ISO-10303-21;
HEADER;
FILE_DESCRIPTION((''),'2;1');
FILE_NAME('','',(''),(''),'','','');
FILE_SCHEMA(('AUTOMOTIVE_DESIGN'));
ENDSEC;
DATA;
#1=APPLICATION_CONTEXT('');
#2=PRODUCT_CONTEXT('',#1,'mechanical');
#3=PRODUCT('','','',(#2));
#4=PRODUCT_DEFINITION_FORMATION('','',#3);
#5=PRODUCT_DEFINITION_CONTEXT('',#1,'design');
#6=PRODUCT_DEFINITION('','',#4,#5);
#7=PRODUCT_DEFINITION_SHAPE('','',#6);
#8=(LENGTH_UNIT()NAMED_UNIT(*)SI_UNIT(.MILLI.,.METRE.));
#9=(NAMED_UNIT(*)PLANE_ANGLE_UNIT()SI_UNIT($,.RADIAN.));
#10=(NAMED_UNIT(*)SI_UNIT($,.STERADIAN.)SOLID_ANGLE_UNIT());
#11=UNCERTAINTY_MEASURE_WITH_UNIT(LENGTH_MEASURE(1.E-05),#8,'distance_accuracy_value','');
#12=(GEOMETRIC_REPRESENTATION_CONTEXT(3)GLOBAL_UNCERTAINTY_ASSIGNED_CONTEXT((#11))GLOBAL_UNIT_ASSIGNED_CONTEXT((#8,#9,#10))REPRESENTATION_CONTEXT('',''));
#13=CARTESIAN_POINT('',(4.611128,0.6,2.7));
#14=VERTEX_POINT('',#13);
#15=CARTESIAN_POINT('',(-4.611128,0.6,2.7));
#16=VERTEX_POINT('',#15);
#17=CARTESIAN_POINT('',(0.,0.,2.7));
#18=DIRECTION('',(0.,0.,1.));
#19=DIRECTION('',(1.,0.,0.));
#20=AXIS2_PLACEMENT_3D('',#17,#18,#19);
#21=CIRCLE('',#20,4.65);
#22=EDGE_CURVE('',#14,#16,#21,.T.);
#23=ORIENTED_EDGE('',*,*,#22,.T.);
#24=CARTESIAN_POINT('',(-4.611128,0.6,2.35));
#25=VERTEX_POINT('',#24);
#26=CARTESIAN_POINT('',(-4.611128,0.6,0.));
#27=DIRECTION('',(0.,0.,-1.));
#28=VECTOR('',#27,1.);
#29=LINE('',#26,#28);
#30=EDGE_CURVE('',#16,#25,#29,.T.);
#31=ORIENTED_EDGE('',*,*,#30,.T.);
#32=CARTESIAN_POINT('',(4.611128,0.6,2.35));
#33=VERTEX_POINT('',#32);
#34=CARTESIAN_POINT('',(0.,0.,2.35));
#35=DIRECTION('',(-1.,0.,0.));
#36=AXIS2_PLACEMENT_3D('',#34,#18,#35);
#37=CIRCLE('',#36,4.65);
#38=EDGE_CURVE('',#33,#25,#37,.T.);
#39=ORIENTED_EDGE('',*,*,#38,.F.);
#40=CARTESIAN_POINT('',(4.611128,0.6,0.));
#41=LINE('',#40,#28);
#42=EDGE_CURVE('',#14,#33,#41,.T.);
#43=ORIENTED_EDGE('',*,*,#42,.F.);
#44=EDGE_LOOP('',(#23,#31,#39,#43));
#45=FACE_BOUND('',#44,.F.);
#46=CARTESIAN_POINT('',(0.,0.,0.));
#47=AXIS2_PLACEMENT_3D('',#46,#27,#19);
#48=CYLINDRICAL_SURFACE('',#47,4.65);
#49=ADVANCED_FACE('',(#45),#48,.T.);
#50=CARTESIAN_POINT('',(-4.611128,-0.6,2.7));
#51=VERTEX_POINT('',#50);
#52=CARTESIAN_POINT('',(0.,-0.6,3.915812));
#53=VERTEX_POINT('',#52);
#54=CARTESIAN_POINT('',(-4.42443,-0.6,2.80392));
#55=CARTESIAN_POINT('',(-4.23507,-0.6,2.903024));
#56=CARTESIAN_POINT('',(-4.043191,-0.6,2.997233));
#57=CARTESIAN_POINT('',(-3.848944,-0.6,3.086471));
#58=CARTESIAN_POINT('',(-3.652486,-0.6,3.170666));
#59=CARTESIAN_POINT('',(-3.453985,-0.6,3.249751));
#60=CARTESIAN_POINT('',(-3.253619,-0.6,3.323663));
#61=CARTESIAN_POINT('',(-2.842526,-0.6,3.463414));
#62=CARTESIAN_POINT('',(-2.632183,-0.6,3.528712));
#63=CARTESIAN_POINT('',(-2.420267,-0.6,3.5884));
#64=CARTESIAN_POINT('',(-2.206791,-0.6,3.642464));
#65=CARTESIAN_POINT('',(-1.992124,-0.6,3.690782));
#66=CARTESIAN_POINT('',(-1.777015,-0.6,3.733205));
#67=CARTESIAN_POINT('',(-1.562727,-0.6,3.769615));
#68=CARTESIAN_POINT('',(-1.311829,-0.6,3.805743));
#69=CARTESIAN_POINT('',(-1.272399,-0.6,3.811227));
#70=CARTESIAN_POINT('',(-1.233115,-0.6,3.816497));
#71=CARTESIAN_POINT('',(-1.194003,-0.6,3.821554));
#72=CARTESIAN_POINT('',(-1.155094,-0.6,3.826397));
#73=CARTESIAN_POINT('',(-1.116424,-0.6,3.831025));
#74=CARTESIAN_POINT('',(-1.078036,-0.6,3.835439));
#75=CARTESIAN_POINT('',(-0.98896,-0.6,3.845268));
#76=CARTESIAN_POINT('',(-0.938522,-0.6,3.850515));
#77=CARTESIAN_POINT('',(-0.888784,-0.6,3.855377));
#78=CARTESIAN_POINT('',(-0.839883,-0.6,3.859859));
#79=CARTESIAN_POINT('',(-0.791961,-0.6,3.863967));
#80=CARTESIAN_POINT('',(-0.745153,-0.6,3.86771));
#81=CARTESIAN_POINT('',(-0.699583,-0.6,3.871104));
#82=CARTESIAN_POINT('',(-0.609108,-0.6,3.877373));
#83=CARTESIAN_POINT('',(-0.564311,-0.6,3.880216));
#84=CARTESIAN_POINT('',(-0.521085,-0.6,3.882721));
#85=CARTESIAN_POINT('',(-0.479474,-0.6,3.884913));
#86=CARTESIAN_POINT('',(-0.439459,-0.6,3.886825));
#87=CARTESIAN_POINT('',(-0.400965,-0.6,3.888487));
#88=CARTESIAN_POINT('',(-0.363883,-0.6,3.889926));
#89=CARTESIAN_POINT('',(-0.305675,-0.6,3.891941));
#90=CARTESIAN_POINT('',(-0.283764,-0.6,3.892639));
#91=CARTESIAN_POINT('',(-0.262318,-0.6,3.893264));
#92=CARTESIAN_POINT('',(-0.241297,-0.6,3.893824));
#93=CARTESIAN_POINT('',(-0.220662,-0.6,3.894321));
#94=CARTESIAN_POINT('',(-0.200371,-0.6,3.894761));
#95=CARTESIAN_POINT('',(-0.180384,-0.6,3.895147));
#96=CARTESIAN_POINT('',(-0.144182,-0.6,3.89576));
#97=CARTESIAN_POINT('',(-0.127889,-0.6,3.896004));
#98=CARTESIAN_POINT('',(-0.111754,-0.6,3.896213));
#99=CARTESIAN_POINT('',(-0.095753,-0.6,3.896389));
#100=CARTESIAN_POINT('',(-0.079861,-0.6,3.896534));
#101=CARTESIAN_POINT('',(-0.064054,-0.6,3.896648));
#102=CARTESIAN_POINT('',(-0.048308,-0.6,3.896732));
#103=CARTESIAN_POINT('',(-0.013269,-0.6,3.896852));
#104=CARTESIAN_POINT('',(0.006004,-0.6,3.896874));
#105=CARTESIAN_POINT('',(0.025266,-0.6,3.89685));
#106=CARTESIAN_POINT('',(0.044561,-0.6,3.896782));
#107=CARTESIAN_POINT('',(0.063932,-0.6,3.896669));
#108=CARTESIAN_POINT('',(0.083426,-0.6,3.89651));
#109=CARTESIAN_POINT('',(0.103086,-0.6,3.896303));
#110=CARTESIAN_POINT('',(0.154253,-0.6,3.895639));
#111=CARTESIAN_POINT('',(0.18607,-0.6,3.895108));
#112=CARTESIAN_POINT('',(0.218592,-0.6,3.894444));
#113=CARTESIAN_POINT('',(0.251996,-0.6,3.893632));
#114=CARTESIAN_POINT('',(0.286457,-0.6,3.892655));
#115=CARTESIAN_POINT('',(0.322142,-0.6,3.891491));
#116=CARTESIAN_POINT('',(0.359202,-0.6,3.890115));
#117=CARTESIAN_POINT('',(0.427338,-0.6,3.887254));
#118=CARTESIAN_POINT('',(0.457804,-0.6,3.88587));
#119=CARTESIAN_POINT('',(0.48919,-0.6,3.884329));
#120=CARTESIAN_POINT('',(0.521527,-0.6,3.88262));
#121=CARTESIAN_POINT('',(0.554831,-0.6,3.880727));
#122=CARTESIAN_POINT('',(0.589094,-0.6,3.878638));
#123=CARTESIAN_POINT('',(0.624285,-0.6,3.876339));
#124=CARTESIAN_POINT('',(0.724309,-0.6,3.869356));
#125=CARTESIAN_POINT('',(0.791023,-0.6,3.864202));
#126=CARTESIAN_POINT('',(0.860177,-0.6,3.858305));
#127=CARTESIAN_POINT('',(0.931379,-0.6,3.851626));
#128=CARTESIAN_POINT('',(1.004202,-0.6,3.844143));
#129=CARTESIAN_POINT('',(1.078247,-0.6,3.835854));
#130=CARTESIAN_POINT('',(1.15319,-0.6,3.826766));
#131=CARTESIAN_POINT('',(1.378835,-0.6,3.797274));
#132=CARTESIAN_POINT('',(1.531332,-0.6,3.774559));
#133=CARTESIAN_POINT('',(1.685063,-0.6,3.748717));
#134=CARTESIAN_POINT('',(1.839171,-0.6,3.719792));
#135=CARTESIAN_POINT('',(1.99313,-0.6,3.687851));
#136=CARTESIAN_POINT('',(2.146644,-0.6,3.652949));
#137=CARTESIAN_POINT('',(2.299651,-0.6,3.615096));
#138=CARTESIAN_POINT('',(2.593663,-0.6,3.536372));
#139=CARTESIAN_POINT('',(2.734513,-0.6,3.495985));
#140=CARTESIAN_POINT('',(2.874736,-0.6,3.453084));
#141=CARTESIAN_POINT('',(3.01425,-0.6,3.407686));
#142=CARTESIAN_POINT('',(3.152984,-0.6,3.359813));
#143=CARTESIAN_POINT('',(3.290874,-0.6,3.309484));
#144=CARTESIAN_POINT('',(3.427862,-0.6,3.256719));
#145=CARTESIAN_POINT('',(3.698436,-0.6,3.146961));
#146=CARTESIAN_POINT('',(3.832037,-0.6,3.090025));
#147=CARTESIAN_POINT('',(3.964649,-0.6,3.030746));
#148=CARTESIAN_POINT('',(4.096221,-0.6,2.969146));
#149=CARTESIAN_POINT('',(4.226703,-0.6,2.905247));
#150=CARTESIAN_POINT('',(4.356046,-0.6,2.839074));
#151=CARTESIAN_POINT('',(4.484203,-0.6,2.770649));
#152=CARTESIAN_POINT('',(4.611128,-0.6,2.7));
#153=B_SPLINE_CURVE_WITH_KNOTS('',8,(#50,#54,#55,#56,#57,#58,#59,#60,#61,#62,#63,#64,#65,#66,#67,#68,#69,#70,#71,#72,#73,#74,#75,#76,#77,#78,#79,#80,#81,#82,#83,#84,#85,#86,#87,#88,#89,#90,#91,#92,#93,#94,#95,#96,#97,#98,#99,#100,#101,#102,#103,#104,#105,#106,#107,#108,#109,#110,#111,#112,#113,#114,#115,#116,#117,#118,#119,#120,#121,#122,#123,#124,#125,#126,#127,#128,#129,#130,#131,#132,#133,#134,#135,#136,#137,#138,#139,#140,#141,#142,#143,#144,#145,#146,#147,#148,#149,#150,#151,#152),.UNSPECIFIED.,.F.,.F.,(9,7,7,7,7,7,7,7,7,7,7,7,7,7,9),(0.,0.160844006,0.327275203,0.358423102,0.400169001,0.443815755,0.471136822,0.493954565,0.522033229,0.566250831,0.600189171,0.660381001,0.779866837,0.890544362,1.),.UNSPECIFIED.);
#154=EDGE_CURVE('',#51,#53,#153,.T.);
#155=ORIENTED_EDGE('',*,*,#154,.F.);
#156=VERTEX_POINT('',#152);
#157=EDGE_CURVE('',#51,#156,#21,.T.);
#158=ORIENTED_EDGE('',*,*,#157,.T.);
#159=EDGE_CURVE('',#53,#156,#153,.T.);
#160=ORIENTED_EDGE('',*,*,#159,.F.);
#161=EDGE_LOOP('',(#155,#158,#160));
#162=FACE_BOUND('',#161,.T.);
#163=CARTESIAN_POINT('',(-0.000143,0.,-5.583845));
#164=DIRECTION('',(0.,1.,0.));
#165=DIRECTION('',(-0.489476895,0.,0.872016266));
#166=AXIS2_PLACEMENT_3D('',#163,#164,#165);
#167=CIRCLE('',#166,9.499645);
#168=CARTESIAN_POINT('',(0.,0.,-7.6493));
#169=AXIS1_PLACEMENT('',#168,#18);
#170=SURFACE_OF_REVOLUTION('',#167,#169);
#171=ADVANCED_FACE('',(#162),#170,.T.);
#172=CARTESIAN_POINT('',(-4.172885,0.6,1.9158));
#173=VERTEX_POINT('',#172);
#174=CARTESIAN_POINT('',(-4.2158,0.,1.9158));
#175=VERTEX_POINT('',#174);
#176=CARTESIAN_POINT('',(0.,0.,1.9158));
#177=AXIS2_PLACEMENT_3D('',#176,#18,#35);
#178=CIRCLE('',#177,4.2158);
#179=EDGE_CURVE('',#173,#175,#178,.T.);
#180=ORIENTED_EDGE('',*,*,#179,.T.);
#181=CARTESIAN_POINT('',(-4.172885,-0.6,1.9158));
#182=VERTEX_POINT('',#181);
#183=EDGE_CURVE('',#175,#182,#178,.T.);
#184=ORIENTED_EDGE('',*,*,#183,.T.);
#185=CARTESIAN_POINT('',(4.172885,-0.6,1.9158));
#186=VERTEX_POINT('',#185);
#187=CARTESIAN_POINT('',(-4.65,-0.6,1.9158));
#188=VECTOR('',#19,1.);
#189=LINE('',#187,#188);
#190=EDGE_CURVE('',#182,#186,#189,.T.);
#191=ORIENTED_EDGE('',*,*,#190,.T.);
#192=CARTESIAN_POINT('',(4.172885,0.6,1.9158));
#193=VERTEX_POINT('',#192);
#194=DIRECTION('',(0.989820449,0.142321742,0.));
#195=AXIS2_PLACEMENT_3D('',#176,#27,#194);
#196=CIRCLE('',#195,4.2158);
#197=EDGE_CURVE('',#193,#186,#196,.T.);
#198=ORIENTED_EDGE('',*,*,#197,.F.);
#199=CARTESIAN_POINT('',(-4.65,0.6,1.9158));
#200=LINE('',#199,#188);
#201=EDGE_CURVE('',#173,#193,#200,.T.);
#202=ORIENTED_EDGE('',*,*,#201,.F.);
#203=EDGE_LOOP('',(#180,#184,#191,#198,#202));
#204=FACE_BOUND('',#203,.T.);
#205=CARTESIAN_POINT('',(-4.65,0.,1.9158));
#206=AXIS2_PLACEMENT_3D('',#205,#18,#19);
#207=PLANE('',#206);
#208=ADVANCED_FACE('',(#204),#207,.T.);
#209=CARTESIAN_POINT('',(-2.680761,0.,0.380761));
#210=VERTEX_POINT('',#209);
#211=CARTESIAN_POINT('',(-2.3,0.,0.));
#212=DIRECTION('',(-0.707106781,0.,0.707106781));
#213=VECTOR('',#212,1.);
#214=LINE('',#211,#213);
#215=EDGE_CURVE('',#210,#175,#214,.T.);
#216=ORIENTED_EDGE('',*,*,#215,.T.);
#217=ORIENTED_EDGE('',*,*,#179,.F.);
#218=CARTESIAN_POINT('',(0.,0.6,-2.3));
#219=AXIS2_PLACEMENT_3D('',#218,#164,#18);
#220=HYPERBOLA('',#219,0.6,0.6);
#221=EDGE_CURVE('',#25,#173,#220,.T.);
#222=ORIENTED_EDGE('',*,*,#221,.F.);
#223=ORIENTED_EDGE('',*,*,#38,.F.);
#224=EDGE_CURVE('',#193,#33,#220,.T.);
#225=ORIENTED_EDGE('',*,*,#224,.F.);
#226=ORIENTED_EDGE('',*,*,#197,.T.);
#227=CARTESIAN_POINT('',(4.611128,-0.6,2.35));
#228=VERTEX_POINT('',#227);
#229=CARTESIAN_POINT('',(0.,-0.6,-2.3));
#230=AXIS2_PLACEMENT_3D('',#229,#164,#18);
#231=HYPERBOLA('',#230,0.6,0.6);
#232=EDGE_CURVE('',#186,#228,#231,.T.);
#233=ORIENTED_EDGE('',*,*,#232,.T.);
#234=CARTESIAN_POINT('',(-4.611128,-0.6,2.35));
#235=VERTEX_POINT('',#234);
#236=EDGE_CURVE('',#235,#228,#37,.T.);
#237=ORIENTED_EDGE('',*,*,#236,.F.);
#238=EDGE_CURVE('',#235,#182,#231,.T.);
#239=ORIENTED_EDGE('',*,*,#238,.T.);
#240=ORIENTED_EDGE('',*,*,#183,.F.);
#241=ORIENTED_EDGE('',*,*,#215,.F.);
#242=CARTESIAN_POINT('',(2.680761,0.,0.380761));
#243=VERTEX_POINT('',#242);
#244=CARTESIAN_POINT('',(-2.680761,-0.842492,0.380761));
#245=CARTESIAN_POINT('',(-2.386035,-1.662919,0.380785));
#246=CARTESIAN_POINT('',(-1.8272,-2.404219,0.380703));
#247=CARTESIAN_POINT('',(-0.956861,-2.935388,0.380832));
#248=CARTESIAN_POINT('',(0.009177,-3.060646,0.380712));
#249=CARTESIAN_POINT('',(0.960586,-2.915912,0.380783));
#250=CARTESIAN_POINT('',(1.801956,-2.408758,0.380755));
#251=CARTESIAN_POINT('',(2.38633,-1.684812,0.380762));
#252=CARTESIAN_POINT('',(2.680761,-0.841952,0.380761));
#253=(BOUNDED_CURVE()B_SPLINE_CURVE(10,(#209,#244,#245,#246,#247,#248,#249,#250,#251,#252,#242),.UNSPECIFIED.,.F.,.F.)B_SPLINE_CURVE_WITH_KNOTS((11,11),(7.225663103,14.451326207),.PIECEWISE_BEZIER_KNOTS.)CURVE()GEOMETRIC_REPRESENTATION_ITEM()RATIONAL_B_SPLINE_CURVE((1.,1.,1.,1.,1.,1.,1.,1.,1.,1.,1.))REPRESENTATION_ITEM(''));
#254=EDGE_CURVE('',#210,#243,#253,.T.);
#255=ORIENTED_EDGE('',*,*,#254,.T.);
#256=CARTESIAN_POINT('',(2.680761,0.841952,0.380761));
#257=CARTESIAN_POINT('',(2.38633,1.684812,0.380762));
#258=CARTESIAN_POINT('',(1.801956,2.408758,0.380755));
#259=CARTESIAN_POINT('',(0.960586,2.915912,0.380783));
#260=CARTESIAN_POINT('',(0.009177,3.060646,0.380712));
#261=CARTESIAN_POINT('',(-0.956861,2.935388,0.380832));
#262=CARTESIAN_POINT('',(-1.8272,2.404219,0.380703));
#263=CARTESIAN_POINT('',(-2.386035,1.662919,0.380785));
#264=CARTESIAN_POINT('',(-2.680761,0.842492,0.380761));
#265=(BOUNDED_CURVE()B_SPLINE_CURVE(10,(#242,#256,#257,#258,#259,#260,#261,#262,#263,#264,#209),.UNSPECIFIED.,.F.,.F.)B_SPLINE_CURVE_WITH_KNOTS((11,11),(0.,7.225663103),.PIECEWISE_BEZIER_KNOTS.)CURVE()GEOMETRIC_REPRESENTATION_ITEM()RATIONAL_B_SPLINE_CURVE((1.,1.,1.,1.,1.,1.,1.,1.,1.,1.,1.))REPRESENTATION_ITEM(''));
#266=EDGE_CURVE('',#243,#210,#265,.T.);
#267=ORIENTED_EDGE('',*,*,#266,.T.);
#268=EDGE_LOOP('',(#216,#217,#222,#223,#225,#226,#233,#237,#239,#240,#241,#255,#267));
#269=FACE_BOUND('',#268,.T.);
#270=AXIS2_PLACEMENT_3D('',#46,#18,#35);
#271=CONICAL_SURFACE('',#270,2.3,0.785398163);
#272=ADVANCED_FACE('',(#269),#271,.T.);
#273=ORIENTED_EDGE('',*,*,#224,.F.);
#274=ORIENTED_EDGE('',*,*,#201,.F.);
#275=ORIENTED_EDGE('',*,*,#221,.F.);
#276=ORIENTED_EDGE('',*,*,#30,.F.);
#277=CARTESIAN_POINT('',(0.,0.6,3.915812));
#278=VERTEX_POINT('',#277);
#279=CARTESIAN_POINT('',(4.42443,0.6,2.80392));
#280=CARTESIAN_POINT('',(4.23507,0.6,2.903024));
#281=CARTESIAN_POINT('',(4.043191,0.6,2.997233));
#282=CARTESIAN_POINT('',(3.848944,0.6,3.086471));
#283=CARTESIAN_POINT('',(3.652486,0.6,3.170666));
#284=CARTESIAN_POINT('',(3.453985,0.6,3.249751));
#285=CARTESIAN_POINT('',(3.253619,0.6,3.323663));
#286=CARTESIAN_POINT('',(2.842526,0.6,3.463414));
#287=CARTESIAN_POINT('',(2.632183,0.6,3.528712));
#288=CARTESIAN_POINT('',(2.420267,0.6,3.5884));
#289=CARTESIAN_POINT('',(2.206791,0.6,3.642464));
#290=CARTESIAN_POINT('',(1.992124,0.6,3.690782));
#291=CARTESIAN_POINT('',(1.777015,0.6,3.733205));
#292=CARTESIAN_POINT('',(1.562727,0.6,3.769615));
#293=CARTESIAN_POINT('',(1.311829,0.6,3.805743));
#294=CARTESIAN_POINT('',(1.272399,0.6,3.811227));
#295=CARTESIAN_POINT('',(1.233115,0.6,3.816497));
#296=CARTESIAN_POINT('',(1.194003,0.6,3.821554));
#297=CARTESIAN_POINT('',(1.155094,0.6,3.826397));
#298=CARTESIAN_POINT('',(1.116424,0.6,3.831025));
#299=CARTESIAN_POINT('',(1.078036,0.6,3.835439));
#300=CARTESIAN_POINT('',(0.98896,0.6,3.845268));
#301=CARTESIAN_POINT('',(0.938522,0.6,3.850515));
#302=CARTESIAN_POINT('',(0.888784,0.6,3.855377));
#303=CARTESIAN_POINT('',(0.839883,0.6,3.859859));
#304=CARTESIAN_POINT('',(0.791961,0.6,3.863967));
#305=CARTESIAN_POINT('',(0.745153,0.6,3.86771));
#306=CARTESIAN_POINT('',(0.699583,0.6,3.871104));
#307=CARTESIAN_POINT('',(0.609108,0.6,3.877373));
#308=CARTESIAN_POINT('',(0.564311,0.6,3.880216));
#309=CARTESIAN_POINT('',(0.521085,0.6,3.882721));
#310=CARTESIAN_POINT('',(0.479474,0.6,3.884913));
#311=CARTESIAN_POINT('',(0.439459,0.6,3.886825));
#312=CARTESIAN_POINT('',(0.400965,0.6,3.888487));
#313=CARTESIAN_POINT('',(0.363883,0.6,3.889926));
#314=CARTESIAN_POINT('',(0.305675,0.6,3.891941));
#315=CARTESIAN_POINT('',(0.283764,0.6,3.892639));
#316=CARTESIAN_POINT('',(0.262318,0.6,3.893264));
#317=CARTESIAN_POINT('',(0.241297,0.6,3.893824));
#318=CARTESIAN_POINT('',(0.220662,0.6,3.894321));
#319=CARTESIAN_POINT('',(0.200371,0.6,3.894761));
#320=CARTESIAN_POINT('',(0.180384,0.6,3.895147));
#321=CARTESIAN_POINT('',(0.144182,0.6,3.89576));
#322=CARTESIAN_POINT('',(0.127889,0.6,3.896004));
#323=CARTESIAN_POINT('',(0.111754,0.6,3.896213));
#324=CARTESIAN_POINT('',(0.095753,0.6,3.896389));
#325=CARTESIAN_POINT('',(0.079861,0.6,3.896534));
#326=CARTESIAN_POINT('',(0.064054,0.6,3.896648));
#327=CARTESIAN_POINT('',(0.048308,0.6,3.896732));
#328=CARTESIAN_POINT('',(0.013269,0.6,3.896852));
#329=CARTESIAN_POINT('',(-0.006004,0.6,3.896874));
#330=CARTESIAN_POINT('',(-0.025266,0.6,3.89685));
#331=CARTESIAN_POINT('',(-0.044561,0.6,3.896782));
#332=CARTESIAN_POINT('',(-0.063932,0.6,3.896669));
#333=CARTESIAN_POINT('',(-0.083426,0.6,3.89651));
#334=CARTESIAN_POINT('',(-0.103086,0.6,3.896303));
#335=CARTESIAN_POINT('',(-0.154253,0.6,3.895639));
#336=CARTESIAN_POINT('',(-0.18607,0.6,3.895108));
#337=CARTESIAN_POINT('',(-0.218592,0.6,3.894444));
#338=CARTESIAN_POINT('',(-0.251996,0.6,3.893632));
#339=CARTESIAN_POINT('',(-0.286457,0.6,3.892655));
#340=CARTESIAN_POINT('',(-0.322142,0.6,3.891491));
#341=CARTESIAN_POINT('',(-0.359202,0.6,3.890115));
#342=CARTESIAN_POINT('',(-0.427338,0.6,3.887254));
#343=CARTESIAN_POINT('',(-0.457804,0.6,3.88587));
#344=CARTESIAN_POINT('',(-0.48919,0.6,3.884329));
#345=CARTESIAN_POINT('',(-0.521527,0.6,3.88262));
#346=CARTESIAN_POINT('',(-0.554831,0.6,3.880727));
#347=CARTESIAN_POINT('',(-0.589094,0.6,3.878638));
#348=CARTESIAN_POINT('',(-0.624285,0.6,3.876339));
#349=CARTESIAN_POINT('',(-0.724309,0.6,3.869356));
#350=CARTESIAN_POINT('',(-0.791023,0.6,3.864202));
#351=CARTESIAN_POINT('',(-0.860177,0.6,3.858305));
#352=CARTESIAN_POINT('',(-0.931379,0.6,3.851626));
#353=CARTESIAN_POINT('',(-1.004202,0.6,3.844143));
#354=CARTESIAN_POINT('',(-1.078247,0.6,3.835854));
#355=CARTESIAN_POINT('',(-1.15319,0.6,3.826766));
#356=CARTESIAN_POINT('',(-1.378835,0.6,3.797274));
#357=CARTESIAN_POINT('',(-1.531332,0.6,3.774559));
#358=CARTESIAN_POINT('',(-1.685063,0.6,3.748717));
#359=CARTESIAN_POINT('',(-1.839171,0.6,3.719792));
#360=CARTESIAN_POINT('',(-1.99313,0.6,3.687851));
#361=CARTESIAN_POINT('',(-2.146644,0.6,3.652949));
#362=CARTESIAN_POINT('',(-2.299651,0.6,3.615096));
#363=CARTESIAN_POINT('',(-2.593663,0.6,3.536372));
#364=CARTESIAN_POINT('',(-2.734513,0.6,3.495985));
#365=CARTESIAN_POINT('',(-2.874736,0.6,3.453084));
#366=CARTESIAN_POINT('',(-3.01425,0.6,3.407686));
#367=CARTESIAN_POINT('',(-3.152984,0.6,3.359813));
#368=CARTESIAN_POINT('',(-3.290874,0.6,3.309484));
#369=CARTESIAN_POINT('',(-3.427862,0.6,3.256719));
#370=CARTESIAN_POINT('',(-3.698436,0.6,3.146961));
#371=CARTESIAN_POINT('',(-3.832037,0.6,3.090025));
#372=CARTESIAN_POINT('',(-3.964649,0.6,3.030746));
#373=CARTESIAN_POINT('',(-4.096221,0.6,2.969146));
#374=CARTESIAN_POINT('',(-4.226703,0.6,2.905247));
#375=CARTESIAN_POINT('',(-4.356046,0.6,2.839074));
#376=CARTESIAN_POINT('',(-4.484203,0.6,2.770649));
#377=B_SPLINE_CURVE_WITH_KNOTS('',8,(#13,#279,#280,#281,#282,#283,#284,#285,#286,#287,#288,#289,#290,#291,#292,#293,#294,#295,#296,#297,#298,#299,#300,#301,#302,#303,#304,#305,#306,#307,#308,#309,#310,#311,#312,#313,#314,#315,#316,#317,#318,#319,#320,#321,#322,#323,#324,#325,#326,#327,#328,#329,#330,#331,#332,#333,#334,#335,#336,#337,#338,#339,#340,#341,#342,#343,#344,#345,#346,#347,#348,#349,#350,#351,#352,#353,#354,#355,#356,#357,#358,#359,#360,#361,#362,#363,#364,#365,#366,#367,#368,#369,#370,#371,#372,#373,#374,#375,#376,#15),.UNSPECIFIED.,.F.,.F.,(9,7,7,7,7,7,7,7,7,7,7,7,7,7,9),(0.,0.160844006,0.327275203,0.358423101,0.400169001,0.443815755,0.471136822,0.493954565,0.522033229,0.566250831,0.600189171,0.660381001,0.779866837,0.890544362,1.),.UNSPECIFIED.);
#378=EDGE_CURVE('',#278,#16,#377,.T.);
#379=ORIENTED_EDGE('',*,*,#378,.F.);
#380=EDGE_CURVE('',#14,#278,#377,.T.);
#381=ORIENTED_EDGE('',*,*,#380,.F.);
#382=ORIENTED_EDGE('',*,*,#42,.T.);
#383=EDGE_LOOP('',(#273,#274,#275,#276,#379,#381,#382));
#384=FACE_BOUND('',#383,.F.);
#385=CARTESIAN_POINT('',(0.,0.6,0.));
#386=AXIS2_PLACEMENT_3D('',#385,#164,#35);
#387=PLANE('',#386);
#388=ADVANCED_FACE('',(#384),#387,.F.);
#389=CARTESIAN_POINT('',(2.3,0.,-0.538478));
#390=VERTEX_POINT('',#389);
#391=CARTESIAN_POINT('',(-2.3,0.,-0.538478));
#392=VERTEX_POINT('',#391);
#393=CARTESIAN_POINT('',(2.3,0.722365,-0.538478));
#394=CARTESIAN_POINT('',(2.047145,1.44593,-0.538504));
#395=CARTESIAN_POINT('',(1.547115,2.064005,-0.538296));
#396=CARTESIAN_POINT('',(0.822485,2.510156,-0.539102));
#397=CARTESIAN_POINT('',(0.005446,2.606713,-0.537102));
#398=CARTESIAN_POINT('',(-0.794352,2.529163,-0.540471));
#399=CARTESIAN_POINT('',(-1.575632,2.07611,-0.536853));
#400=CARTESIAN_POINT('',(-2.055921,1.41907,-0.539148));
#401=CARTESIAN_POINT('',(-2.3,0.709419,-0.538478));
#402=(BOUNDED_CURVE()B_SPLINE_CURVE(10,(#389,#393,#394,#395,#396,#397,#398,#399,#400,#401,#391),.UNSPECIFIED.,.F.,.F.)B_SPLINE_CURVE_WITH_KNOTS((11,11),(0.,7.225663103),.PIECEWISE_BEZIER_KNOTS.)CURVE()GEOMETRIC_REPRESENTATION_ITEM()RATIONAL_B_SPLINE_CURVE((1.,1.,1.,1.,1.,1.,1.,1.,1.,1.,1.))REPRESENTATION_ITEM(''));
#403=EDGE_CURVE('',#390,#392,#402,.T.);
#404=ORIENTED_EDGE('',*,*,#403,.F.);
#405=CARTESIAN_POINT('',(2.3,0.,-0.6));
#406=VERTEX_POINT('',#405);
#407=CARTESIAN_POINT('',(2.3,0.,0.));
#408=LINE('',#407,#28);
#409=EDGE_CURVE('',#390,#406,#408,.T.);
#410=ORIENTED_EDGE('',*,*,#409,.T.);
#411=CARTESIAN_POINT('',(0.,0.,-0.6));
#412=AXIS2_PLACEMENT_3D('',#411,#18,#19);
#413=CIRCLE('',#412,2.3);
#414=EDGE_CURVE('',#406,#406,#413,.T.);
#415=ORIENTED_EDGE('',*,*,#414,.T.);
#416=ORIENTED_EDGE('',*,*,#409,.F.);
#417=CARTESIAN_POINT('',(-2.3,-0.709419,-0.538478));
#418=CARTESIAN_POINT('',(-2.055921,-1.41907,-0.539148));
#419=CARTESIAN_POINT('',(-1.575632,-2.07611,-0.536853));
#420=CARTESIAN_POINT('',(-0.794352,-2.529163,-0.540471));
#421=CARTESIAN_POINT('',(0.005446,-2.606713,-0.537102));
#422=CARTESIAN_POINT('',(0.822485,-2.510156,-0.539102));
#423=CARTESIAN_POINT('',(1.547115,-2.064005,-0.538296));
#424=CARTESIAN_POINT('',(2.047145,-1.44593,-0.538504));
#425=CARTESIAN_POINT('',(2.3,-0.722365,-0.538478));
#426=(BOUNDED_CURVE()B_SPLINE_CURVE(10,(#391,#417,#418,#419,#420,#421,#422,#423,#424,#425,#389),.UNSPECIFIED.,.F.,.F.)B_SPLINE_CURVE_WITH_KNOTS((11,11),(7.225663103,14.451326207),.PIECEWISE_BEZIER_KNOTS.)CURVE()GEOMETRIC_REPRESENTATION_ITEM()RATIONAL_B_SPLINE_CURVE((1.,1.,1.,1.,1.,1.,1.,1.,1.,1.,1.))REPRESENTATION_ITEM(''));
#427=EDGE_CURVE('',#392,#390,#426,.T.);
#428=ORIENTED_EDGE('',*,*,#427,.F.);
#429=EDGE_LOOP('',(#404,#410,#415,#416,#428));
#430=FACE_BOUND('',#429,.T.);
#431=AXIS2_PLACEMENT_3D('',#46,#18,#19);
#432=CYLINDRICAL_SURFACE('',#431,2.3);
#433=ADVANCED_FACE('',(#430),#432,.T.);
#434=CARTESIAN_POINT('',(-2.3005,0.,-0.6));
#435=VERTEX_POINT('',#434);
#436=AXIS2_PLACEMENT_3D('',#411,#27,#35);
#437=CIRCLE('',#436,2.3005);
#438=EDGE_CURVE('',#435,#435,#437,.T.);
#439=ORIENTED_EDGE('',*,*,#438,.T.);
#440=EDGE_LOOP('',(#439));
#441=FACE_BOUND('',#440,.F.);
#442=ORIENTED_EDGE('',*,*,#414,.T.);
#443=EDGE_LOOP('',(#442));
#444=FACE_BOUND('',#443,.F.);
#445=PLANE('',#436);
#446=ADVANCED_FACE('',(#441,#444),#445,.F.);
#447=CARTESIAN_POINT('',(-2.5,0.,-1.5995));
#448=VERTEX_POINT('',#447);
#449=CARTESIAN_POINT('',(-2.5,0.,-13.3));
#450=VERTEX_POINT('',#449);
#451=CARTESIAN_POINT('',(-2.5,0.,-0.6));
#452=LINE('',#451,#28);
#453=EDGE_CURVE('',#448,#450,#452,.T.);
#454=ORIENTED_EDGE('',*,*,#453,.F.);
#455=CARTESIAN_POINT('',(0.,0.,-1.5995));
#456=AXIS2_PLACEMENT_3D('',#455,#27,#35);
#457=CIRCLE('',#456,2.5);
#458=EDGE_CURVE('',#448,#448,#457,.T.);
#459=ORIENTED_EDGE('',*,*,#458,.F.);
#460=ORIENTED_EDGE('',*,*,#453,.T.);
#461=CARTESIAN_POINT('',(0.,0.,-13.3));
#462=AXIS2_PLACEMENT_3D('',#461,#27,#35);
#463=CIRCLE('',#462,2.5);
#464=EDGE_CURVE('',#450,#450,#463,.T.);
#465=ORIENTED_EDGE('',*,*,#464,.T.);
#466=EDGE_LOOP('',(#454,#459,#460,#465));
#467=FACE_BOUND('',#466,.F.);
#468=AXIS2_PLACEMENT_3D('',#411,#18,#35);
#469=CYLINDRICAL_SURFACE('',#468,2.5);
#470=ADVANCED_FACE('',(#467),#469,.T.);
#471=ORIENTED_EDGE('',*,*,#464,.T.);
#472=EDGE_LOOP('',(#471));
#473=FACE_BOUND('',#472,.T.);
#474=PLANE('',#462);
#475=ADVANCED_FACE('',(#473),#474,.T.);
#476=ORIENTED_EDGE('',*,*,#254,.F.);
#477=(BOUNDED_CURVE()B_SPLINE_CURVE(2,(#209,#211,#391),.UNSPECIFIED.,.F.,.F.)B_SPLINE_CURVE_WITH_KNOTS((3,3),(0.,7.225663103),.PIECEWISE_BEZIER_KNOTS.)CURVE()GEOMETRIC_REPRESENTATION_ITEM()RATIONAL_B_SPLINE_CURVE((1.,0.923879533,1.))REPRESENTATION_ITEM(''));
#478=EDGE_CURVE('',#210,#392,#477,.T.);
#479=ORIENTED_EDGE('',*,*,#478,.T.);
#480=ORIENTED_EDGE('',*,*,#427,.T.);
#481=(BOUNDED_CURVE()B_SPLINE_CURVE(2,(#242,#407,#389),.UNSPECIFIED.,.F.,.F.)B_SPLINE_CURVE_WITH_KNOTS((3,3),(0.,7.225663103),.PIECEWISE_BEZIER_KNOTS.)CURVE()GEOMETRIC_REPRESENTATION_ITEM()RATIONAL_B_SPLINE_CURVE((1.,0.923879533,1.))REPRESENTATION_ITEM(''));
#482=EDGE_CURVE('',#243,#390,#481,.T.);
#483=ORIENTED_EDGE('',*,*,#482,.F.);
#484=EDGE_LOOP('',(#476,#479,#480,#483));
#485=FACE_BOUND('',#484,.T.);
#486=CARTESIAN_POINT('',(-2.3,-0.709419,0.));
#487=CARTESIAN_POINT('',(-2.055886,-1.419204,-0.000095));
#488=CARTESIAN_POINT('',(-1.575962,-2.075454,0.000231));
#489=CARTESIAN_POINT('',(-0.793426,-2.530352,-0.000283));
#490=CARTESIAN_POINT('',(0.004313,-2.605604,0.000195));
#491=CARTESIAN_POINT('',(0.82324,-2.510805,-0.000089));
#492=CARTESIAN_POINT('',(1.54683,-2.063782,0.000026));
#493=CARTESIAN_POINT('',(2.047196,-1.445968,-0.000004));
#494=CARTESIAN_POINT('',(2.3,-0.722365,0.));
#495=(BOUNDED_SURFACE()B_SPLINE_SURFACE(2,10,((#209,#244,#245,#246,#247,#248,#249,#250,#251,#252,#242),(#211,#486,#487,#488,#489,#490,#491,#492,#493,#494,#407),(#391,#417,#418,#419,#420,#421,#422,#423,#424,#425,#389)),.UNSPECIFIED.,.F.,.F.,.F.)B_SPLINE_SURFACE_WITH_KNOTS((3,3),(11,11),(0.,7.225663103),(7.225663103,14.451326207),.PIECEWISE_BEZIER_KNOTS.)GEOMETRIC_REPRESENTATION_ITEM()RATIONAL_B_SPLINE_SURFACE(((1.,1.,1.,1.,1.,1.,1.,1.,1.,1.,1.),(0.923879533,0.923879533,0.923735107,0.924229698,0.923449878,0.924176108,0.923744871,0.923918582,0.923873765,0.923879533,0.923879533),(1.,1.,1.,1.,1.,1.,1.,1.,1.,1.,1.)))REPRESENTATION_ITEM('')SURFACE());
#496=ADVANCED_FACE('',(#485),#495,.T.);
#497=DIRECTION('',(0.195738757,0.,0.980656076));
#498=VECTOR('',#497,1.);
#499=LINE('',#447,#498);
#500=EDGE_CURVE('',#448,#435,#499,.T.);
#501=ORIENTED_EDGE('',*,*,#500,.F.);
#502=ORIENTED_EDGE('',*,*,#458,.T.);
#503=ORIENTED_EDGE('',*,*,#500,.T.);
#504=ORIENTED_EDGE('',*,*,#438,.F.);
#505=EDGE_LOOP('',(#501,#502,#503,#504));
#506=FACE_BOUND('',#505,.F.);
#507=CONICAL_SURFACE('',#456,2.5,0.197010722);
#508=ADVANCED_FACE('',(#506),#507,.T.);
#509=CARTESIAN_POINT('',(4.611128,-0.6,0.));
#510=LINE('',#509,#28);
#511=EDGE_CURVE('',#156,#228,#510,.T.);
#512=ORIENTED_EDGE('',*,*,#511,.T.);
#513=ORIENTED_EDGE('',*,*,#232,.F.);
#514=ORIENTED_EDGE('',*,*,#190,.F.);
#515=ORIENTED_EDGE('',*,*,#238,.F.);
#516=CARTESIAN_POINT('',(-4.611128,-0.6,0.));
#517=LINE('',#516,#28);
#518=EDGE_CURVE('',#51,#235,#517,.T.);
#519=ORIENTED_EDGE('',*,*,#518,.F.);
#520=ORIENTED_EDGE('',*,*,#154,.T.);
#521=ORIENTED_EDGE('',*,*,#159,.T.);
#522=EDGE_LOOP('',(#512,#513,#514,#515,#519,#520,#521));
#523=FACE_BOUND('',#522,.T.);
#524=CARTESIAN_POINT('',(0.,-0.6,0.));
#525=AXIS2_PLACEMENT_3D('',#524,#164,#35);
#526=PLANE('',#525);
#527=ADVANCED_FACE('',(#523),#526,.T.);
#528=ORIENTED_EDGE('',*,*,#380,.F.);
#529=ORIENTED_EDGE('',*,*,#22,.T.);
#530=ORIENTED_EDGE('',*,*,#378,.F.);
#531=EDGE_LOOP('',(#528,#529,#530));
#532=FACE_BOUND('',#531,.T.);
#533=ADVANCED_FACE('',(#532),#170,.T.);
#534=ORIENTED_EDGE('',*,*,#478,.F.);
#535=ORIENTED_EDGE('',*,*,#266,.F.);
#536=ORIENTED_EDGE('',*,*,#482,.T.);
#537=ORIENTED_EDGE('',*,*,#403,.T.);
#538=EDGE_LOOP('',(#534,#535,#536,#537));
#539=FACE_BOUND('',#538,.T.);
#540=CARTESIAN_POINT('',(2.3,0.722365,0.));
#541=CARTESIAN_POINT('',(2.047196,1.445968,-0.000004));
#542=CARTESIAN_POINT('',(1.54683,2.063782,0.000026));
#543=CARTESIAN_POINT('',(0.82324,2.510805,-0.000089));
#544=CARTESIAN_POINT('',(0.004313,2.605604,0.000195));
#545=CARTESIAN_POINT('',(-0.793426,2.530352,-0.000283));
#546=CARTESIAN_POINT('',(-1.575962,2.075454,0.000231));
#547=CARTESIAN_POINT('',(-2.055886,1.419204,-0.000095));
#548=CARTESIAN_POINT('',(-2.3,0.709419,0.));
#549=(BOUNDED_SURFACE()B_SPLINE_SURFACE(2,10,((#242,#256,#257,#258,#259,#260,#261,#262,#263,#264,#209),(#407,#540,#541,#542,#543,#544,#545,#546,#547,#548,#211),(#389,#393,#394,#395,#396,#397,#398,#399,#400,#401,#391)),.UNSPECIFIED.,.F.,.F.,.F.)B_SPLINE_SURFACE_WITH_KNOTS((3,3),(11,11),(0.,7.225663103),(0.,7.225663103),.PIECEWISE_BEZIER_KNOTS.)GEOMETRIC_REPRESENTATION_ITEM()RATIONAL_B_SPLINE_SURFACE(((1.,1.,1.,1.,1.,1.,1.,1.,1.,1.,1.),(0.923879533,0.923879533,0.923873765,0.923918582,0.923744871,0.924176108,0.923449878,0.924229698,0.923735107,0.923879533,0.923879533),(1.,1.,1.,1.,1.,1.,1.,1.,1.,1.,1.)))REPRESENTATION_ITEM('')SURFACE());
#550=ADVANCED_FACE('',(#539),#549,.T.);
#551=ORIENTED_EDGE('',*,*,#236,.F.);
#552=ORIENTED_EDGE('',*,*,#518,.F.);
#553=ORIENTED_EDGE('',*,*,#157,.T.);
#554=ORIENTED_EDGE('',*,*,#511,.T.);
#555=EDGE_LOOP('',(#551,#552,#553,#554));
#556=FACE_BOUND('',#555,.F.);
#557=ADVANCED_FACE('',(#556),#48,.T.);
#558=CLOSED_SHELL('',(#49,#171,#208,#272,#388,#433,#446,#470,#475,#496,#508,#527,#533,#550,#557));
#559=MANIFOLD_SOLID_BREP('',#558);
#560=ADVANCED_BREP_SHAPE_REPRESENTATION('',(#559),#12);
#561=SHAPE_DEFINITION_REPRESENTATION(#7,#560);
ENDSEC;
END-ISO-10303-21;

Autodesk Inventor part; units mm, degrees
ref_plane "WorkPlane11" through (0, 0, 0) normal (0, 0, 1) x (1, 0, 0)
ref_plane "Work Plane2" through (0, 0, -4.9) normal (0, 0, 1) x (1, 0, 0)
ref_plane "WorkPlane9" through (0, 0, 8.3) normal (0, 0, 1) x (1, 0, 0)
sketch "Skizze1" plane through (0, 0, 0) normal (0, 0, 1) x (1, 0, 0)
  point P0 (0, 0)
sketch "Skizze2" plane through (0, 0, 0) normal (0, 0, 1) x (1, 0, 0)
  circle A0 centre (0, 0) radius 2.3
  dimension "d2" = 4.6
extrude "Extrusion1" add sketch "Skizze2" against normal blind 0.6
sketch "Skizze3" plane through (0, 0, -0.6) normal (0, 0, -1) x (-1, 0, 0)
  circle A0 centre (0, 0) radius 2.5
  circle A1 centre (0, 0) radius 2.3 construction
  dimension "d8" = 5
extrude "Extrusion2" add sketch "Skizze3" along normal blind 12.7
sketch "Skizze4" plane through (0, 0, 0) normal (0, 0, 1) x (1, 0, 0)
  circle A0 centre (0, 0) radius 4.65
  circle A1 centre (0, 0) radius 2.3 construction
  dimension "d12" = 9.3
extrude "Extrusion3" add sketch "Skizze4" along normal blind 2.7
sketch "Skizze5" plane through (0, 0, 0) normal (0, 1, 0) x (-1, 0, 0)
  line L0 (4.65, 0) -> (2.3, 0)
  line L1 (4.65, 2.35) -> (4.65, 0)
  line L2 (2.3, 0) -> (4.65, 2.35)
  line L3 (-4.65, 0) -> (4.65, 0) construction
  line L4 (0, -7.6493) -> (0, 5.8993)
  line L5 (0, -10.359) -> (0, 8.609) projected
  line L6 (4.65, 0) -> (4.65, 2.7) projected
  line L7 (-4.75, 0) -> (4.75, 0) projected
  line L8 (2.3, 0) -> (2.3, -0.6) projected
  dimension "d17" = 45
revolve "Drehung1" cut sketch "Skizze5" angle 360 about axis through (0, 0, -7.6493) along (0, 0, 1)
sketch "Skizze6" plane through (0, 0, 0) normal (0, 1, 0) x (-1, 0, 0)
  line L0 (0, 2.7) -> (0, 3.9158)
  line L1 (0, 2.7) -> (4.65, 2.7)
  arc A0 (4.65, 2.7) -> (0, 3.9158) centre (0, -5.5842) ccw
  line L2 (-4.65, 2.7) -> (4.65, 2.7) construction
  line L3 (0, -7.6493) -> (0, 5.8993)
  line L4 (0, -10.359) -> (0, 8.609) projected
  line L5 (4.65, 2.35) -> (4.65, 2.7) projected
  arc A1 (0, 3.9158) -> (-4.65, 2.7) centre (0, -5.5842) ccw
  dimension "d20" = 9.5
  dimension "d24" = 4.65
revolve "Drehung2" add sketch "Skizze6" angle 360 about axis through (0, 0, -7.6493) along (0, 0, 1)
fillet "Rundung1" radius 1.3 2 edges at (0, 2.3, 0) (0, -2.3, 0)
chamfer "Fase1" distance 1 distance2 0.2 1 edges at (2.5, 0, -0.6) measured on face at (-2.4919, -0.2012, -9.0667)
sketch "Skizze8" plane through (0, 0, 0) normal (0, 1, 0) x (-1, 0, 0)
  line L0 (-4.65, 3.9158) -> (4.65, 3.9158)
  line L1 (4.65, 3.9158) -> (4.65, 1.9158)
  line L2 (4.65, 1.9158) -> (-4.65, 1.9158)
  line L3 (-4.65, 1.9158) -> (-4.65, 3.9158)
  arc A0 (4.65, 2.7) -> (-4.65, 2.7) centre (0, -5.5842) ccw projected
  line L4 (-4.65, 2.35) -> (-4.65, 2.7) projected
  line L5 (4.65, 2.35) -> (4.65, 2.7) projected
  dimension "msp_d31" = 2
extrude "Extrusion4" cut sketch "Skizze8" against normal mid plane 1.2
thread "Gewinde1" size "M5x0.8" class "6g" standard "ISO Metric profile" full length
ref_plane "MSC_PF1" through (0, 0, 0) normal (1, 0, 0) x (0, 1, 0)
ref_plane "MSC_PT1" through (-4.65, 0, 2.35) normal (0, 0, -1) x (-1, 0, 0)
equation "\"d3\" = -msp_x + ParA"
equation "\"d8\" = NND"
equation "\"d9\" = msp_x - ParK + NLG - ParA"
equation "\"d12\" = Dk"
equation "\"d13\" = ParK"
equation "\"d28\" = r"
equation "\"d29\" = msp_x"
equation "\"d30\" = 0.25 * PTC"
equation "\"msp_d31\" = ParT"
equation "\"msp_d32\" = ParN"
equation "\"d2\" = 0.5 * PTC + msp_mdtds"
equation "\"d20\" = rf"
equation "\"d24\" = 0.5 * Dk"
equation "\"PTC\" = 0.8"
equation "\"NND\" = 5"
equation "\"msp_x\" = 1.25 * PTC"
equation "\"NLG\" = 16"
equation "\"msp_mdtds\" = NND - PTC"
equation "\"ParK\" = 2.7"
equation "\"ParN\" = 1.2"
equation "\"ParT\" = 2"
equation "\"r\" = 1.3"
equation "\"prf_c\" = 0"
equation "\"ParA\" = 1.6"
equation "\"Dk\" = 9.3"
equation "\"rf\" = 9.5"
equation "\"ParF\" = 1.2"
equation "\"THREADDIA\" = NND"
equation "\"TEMPLATE\" = 1.2345"
properties part number "DIN EN ISO 2010 - M5x16" material "Messing, weicher Gelbton"
